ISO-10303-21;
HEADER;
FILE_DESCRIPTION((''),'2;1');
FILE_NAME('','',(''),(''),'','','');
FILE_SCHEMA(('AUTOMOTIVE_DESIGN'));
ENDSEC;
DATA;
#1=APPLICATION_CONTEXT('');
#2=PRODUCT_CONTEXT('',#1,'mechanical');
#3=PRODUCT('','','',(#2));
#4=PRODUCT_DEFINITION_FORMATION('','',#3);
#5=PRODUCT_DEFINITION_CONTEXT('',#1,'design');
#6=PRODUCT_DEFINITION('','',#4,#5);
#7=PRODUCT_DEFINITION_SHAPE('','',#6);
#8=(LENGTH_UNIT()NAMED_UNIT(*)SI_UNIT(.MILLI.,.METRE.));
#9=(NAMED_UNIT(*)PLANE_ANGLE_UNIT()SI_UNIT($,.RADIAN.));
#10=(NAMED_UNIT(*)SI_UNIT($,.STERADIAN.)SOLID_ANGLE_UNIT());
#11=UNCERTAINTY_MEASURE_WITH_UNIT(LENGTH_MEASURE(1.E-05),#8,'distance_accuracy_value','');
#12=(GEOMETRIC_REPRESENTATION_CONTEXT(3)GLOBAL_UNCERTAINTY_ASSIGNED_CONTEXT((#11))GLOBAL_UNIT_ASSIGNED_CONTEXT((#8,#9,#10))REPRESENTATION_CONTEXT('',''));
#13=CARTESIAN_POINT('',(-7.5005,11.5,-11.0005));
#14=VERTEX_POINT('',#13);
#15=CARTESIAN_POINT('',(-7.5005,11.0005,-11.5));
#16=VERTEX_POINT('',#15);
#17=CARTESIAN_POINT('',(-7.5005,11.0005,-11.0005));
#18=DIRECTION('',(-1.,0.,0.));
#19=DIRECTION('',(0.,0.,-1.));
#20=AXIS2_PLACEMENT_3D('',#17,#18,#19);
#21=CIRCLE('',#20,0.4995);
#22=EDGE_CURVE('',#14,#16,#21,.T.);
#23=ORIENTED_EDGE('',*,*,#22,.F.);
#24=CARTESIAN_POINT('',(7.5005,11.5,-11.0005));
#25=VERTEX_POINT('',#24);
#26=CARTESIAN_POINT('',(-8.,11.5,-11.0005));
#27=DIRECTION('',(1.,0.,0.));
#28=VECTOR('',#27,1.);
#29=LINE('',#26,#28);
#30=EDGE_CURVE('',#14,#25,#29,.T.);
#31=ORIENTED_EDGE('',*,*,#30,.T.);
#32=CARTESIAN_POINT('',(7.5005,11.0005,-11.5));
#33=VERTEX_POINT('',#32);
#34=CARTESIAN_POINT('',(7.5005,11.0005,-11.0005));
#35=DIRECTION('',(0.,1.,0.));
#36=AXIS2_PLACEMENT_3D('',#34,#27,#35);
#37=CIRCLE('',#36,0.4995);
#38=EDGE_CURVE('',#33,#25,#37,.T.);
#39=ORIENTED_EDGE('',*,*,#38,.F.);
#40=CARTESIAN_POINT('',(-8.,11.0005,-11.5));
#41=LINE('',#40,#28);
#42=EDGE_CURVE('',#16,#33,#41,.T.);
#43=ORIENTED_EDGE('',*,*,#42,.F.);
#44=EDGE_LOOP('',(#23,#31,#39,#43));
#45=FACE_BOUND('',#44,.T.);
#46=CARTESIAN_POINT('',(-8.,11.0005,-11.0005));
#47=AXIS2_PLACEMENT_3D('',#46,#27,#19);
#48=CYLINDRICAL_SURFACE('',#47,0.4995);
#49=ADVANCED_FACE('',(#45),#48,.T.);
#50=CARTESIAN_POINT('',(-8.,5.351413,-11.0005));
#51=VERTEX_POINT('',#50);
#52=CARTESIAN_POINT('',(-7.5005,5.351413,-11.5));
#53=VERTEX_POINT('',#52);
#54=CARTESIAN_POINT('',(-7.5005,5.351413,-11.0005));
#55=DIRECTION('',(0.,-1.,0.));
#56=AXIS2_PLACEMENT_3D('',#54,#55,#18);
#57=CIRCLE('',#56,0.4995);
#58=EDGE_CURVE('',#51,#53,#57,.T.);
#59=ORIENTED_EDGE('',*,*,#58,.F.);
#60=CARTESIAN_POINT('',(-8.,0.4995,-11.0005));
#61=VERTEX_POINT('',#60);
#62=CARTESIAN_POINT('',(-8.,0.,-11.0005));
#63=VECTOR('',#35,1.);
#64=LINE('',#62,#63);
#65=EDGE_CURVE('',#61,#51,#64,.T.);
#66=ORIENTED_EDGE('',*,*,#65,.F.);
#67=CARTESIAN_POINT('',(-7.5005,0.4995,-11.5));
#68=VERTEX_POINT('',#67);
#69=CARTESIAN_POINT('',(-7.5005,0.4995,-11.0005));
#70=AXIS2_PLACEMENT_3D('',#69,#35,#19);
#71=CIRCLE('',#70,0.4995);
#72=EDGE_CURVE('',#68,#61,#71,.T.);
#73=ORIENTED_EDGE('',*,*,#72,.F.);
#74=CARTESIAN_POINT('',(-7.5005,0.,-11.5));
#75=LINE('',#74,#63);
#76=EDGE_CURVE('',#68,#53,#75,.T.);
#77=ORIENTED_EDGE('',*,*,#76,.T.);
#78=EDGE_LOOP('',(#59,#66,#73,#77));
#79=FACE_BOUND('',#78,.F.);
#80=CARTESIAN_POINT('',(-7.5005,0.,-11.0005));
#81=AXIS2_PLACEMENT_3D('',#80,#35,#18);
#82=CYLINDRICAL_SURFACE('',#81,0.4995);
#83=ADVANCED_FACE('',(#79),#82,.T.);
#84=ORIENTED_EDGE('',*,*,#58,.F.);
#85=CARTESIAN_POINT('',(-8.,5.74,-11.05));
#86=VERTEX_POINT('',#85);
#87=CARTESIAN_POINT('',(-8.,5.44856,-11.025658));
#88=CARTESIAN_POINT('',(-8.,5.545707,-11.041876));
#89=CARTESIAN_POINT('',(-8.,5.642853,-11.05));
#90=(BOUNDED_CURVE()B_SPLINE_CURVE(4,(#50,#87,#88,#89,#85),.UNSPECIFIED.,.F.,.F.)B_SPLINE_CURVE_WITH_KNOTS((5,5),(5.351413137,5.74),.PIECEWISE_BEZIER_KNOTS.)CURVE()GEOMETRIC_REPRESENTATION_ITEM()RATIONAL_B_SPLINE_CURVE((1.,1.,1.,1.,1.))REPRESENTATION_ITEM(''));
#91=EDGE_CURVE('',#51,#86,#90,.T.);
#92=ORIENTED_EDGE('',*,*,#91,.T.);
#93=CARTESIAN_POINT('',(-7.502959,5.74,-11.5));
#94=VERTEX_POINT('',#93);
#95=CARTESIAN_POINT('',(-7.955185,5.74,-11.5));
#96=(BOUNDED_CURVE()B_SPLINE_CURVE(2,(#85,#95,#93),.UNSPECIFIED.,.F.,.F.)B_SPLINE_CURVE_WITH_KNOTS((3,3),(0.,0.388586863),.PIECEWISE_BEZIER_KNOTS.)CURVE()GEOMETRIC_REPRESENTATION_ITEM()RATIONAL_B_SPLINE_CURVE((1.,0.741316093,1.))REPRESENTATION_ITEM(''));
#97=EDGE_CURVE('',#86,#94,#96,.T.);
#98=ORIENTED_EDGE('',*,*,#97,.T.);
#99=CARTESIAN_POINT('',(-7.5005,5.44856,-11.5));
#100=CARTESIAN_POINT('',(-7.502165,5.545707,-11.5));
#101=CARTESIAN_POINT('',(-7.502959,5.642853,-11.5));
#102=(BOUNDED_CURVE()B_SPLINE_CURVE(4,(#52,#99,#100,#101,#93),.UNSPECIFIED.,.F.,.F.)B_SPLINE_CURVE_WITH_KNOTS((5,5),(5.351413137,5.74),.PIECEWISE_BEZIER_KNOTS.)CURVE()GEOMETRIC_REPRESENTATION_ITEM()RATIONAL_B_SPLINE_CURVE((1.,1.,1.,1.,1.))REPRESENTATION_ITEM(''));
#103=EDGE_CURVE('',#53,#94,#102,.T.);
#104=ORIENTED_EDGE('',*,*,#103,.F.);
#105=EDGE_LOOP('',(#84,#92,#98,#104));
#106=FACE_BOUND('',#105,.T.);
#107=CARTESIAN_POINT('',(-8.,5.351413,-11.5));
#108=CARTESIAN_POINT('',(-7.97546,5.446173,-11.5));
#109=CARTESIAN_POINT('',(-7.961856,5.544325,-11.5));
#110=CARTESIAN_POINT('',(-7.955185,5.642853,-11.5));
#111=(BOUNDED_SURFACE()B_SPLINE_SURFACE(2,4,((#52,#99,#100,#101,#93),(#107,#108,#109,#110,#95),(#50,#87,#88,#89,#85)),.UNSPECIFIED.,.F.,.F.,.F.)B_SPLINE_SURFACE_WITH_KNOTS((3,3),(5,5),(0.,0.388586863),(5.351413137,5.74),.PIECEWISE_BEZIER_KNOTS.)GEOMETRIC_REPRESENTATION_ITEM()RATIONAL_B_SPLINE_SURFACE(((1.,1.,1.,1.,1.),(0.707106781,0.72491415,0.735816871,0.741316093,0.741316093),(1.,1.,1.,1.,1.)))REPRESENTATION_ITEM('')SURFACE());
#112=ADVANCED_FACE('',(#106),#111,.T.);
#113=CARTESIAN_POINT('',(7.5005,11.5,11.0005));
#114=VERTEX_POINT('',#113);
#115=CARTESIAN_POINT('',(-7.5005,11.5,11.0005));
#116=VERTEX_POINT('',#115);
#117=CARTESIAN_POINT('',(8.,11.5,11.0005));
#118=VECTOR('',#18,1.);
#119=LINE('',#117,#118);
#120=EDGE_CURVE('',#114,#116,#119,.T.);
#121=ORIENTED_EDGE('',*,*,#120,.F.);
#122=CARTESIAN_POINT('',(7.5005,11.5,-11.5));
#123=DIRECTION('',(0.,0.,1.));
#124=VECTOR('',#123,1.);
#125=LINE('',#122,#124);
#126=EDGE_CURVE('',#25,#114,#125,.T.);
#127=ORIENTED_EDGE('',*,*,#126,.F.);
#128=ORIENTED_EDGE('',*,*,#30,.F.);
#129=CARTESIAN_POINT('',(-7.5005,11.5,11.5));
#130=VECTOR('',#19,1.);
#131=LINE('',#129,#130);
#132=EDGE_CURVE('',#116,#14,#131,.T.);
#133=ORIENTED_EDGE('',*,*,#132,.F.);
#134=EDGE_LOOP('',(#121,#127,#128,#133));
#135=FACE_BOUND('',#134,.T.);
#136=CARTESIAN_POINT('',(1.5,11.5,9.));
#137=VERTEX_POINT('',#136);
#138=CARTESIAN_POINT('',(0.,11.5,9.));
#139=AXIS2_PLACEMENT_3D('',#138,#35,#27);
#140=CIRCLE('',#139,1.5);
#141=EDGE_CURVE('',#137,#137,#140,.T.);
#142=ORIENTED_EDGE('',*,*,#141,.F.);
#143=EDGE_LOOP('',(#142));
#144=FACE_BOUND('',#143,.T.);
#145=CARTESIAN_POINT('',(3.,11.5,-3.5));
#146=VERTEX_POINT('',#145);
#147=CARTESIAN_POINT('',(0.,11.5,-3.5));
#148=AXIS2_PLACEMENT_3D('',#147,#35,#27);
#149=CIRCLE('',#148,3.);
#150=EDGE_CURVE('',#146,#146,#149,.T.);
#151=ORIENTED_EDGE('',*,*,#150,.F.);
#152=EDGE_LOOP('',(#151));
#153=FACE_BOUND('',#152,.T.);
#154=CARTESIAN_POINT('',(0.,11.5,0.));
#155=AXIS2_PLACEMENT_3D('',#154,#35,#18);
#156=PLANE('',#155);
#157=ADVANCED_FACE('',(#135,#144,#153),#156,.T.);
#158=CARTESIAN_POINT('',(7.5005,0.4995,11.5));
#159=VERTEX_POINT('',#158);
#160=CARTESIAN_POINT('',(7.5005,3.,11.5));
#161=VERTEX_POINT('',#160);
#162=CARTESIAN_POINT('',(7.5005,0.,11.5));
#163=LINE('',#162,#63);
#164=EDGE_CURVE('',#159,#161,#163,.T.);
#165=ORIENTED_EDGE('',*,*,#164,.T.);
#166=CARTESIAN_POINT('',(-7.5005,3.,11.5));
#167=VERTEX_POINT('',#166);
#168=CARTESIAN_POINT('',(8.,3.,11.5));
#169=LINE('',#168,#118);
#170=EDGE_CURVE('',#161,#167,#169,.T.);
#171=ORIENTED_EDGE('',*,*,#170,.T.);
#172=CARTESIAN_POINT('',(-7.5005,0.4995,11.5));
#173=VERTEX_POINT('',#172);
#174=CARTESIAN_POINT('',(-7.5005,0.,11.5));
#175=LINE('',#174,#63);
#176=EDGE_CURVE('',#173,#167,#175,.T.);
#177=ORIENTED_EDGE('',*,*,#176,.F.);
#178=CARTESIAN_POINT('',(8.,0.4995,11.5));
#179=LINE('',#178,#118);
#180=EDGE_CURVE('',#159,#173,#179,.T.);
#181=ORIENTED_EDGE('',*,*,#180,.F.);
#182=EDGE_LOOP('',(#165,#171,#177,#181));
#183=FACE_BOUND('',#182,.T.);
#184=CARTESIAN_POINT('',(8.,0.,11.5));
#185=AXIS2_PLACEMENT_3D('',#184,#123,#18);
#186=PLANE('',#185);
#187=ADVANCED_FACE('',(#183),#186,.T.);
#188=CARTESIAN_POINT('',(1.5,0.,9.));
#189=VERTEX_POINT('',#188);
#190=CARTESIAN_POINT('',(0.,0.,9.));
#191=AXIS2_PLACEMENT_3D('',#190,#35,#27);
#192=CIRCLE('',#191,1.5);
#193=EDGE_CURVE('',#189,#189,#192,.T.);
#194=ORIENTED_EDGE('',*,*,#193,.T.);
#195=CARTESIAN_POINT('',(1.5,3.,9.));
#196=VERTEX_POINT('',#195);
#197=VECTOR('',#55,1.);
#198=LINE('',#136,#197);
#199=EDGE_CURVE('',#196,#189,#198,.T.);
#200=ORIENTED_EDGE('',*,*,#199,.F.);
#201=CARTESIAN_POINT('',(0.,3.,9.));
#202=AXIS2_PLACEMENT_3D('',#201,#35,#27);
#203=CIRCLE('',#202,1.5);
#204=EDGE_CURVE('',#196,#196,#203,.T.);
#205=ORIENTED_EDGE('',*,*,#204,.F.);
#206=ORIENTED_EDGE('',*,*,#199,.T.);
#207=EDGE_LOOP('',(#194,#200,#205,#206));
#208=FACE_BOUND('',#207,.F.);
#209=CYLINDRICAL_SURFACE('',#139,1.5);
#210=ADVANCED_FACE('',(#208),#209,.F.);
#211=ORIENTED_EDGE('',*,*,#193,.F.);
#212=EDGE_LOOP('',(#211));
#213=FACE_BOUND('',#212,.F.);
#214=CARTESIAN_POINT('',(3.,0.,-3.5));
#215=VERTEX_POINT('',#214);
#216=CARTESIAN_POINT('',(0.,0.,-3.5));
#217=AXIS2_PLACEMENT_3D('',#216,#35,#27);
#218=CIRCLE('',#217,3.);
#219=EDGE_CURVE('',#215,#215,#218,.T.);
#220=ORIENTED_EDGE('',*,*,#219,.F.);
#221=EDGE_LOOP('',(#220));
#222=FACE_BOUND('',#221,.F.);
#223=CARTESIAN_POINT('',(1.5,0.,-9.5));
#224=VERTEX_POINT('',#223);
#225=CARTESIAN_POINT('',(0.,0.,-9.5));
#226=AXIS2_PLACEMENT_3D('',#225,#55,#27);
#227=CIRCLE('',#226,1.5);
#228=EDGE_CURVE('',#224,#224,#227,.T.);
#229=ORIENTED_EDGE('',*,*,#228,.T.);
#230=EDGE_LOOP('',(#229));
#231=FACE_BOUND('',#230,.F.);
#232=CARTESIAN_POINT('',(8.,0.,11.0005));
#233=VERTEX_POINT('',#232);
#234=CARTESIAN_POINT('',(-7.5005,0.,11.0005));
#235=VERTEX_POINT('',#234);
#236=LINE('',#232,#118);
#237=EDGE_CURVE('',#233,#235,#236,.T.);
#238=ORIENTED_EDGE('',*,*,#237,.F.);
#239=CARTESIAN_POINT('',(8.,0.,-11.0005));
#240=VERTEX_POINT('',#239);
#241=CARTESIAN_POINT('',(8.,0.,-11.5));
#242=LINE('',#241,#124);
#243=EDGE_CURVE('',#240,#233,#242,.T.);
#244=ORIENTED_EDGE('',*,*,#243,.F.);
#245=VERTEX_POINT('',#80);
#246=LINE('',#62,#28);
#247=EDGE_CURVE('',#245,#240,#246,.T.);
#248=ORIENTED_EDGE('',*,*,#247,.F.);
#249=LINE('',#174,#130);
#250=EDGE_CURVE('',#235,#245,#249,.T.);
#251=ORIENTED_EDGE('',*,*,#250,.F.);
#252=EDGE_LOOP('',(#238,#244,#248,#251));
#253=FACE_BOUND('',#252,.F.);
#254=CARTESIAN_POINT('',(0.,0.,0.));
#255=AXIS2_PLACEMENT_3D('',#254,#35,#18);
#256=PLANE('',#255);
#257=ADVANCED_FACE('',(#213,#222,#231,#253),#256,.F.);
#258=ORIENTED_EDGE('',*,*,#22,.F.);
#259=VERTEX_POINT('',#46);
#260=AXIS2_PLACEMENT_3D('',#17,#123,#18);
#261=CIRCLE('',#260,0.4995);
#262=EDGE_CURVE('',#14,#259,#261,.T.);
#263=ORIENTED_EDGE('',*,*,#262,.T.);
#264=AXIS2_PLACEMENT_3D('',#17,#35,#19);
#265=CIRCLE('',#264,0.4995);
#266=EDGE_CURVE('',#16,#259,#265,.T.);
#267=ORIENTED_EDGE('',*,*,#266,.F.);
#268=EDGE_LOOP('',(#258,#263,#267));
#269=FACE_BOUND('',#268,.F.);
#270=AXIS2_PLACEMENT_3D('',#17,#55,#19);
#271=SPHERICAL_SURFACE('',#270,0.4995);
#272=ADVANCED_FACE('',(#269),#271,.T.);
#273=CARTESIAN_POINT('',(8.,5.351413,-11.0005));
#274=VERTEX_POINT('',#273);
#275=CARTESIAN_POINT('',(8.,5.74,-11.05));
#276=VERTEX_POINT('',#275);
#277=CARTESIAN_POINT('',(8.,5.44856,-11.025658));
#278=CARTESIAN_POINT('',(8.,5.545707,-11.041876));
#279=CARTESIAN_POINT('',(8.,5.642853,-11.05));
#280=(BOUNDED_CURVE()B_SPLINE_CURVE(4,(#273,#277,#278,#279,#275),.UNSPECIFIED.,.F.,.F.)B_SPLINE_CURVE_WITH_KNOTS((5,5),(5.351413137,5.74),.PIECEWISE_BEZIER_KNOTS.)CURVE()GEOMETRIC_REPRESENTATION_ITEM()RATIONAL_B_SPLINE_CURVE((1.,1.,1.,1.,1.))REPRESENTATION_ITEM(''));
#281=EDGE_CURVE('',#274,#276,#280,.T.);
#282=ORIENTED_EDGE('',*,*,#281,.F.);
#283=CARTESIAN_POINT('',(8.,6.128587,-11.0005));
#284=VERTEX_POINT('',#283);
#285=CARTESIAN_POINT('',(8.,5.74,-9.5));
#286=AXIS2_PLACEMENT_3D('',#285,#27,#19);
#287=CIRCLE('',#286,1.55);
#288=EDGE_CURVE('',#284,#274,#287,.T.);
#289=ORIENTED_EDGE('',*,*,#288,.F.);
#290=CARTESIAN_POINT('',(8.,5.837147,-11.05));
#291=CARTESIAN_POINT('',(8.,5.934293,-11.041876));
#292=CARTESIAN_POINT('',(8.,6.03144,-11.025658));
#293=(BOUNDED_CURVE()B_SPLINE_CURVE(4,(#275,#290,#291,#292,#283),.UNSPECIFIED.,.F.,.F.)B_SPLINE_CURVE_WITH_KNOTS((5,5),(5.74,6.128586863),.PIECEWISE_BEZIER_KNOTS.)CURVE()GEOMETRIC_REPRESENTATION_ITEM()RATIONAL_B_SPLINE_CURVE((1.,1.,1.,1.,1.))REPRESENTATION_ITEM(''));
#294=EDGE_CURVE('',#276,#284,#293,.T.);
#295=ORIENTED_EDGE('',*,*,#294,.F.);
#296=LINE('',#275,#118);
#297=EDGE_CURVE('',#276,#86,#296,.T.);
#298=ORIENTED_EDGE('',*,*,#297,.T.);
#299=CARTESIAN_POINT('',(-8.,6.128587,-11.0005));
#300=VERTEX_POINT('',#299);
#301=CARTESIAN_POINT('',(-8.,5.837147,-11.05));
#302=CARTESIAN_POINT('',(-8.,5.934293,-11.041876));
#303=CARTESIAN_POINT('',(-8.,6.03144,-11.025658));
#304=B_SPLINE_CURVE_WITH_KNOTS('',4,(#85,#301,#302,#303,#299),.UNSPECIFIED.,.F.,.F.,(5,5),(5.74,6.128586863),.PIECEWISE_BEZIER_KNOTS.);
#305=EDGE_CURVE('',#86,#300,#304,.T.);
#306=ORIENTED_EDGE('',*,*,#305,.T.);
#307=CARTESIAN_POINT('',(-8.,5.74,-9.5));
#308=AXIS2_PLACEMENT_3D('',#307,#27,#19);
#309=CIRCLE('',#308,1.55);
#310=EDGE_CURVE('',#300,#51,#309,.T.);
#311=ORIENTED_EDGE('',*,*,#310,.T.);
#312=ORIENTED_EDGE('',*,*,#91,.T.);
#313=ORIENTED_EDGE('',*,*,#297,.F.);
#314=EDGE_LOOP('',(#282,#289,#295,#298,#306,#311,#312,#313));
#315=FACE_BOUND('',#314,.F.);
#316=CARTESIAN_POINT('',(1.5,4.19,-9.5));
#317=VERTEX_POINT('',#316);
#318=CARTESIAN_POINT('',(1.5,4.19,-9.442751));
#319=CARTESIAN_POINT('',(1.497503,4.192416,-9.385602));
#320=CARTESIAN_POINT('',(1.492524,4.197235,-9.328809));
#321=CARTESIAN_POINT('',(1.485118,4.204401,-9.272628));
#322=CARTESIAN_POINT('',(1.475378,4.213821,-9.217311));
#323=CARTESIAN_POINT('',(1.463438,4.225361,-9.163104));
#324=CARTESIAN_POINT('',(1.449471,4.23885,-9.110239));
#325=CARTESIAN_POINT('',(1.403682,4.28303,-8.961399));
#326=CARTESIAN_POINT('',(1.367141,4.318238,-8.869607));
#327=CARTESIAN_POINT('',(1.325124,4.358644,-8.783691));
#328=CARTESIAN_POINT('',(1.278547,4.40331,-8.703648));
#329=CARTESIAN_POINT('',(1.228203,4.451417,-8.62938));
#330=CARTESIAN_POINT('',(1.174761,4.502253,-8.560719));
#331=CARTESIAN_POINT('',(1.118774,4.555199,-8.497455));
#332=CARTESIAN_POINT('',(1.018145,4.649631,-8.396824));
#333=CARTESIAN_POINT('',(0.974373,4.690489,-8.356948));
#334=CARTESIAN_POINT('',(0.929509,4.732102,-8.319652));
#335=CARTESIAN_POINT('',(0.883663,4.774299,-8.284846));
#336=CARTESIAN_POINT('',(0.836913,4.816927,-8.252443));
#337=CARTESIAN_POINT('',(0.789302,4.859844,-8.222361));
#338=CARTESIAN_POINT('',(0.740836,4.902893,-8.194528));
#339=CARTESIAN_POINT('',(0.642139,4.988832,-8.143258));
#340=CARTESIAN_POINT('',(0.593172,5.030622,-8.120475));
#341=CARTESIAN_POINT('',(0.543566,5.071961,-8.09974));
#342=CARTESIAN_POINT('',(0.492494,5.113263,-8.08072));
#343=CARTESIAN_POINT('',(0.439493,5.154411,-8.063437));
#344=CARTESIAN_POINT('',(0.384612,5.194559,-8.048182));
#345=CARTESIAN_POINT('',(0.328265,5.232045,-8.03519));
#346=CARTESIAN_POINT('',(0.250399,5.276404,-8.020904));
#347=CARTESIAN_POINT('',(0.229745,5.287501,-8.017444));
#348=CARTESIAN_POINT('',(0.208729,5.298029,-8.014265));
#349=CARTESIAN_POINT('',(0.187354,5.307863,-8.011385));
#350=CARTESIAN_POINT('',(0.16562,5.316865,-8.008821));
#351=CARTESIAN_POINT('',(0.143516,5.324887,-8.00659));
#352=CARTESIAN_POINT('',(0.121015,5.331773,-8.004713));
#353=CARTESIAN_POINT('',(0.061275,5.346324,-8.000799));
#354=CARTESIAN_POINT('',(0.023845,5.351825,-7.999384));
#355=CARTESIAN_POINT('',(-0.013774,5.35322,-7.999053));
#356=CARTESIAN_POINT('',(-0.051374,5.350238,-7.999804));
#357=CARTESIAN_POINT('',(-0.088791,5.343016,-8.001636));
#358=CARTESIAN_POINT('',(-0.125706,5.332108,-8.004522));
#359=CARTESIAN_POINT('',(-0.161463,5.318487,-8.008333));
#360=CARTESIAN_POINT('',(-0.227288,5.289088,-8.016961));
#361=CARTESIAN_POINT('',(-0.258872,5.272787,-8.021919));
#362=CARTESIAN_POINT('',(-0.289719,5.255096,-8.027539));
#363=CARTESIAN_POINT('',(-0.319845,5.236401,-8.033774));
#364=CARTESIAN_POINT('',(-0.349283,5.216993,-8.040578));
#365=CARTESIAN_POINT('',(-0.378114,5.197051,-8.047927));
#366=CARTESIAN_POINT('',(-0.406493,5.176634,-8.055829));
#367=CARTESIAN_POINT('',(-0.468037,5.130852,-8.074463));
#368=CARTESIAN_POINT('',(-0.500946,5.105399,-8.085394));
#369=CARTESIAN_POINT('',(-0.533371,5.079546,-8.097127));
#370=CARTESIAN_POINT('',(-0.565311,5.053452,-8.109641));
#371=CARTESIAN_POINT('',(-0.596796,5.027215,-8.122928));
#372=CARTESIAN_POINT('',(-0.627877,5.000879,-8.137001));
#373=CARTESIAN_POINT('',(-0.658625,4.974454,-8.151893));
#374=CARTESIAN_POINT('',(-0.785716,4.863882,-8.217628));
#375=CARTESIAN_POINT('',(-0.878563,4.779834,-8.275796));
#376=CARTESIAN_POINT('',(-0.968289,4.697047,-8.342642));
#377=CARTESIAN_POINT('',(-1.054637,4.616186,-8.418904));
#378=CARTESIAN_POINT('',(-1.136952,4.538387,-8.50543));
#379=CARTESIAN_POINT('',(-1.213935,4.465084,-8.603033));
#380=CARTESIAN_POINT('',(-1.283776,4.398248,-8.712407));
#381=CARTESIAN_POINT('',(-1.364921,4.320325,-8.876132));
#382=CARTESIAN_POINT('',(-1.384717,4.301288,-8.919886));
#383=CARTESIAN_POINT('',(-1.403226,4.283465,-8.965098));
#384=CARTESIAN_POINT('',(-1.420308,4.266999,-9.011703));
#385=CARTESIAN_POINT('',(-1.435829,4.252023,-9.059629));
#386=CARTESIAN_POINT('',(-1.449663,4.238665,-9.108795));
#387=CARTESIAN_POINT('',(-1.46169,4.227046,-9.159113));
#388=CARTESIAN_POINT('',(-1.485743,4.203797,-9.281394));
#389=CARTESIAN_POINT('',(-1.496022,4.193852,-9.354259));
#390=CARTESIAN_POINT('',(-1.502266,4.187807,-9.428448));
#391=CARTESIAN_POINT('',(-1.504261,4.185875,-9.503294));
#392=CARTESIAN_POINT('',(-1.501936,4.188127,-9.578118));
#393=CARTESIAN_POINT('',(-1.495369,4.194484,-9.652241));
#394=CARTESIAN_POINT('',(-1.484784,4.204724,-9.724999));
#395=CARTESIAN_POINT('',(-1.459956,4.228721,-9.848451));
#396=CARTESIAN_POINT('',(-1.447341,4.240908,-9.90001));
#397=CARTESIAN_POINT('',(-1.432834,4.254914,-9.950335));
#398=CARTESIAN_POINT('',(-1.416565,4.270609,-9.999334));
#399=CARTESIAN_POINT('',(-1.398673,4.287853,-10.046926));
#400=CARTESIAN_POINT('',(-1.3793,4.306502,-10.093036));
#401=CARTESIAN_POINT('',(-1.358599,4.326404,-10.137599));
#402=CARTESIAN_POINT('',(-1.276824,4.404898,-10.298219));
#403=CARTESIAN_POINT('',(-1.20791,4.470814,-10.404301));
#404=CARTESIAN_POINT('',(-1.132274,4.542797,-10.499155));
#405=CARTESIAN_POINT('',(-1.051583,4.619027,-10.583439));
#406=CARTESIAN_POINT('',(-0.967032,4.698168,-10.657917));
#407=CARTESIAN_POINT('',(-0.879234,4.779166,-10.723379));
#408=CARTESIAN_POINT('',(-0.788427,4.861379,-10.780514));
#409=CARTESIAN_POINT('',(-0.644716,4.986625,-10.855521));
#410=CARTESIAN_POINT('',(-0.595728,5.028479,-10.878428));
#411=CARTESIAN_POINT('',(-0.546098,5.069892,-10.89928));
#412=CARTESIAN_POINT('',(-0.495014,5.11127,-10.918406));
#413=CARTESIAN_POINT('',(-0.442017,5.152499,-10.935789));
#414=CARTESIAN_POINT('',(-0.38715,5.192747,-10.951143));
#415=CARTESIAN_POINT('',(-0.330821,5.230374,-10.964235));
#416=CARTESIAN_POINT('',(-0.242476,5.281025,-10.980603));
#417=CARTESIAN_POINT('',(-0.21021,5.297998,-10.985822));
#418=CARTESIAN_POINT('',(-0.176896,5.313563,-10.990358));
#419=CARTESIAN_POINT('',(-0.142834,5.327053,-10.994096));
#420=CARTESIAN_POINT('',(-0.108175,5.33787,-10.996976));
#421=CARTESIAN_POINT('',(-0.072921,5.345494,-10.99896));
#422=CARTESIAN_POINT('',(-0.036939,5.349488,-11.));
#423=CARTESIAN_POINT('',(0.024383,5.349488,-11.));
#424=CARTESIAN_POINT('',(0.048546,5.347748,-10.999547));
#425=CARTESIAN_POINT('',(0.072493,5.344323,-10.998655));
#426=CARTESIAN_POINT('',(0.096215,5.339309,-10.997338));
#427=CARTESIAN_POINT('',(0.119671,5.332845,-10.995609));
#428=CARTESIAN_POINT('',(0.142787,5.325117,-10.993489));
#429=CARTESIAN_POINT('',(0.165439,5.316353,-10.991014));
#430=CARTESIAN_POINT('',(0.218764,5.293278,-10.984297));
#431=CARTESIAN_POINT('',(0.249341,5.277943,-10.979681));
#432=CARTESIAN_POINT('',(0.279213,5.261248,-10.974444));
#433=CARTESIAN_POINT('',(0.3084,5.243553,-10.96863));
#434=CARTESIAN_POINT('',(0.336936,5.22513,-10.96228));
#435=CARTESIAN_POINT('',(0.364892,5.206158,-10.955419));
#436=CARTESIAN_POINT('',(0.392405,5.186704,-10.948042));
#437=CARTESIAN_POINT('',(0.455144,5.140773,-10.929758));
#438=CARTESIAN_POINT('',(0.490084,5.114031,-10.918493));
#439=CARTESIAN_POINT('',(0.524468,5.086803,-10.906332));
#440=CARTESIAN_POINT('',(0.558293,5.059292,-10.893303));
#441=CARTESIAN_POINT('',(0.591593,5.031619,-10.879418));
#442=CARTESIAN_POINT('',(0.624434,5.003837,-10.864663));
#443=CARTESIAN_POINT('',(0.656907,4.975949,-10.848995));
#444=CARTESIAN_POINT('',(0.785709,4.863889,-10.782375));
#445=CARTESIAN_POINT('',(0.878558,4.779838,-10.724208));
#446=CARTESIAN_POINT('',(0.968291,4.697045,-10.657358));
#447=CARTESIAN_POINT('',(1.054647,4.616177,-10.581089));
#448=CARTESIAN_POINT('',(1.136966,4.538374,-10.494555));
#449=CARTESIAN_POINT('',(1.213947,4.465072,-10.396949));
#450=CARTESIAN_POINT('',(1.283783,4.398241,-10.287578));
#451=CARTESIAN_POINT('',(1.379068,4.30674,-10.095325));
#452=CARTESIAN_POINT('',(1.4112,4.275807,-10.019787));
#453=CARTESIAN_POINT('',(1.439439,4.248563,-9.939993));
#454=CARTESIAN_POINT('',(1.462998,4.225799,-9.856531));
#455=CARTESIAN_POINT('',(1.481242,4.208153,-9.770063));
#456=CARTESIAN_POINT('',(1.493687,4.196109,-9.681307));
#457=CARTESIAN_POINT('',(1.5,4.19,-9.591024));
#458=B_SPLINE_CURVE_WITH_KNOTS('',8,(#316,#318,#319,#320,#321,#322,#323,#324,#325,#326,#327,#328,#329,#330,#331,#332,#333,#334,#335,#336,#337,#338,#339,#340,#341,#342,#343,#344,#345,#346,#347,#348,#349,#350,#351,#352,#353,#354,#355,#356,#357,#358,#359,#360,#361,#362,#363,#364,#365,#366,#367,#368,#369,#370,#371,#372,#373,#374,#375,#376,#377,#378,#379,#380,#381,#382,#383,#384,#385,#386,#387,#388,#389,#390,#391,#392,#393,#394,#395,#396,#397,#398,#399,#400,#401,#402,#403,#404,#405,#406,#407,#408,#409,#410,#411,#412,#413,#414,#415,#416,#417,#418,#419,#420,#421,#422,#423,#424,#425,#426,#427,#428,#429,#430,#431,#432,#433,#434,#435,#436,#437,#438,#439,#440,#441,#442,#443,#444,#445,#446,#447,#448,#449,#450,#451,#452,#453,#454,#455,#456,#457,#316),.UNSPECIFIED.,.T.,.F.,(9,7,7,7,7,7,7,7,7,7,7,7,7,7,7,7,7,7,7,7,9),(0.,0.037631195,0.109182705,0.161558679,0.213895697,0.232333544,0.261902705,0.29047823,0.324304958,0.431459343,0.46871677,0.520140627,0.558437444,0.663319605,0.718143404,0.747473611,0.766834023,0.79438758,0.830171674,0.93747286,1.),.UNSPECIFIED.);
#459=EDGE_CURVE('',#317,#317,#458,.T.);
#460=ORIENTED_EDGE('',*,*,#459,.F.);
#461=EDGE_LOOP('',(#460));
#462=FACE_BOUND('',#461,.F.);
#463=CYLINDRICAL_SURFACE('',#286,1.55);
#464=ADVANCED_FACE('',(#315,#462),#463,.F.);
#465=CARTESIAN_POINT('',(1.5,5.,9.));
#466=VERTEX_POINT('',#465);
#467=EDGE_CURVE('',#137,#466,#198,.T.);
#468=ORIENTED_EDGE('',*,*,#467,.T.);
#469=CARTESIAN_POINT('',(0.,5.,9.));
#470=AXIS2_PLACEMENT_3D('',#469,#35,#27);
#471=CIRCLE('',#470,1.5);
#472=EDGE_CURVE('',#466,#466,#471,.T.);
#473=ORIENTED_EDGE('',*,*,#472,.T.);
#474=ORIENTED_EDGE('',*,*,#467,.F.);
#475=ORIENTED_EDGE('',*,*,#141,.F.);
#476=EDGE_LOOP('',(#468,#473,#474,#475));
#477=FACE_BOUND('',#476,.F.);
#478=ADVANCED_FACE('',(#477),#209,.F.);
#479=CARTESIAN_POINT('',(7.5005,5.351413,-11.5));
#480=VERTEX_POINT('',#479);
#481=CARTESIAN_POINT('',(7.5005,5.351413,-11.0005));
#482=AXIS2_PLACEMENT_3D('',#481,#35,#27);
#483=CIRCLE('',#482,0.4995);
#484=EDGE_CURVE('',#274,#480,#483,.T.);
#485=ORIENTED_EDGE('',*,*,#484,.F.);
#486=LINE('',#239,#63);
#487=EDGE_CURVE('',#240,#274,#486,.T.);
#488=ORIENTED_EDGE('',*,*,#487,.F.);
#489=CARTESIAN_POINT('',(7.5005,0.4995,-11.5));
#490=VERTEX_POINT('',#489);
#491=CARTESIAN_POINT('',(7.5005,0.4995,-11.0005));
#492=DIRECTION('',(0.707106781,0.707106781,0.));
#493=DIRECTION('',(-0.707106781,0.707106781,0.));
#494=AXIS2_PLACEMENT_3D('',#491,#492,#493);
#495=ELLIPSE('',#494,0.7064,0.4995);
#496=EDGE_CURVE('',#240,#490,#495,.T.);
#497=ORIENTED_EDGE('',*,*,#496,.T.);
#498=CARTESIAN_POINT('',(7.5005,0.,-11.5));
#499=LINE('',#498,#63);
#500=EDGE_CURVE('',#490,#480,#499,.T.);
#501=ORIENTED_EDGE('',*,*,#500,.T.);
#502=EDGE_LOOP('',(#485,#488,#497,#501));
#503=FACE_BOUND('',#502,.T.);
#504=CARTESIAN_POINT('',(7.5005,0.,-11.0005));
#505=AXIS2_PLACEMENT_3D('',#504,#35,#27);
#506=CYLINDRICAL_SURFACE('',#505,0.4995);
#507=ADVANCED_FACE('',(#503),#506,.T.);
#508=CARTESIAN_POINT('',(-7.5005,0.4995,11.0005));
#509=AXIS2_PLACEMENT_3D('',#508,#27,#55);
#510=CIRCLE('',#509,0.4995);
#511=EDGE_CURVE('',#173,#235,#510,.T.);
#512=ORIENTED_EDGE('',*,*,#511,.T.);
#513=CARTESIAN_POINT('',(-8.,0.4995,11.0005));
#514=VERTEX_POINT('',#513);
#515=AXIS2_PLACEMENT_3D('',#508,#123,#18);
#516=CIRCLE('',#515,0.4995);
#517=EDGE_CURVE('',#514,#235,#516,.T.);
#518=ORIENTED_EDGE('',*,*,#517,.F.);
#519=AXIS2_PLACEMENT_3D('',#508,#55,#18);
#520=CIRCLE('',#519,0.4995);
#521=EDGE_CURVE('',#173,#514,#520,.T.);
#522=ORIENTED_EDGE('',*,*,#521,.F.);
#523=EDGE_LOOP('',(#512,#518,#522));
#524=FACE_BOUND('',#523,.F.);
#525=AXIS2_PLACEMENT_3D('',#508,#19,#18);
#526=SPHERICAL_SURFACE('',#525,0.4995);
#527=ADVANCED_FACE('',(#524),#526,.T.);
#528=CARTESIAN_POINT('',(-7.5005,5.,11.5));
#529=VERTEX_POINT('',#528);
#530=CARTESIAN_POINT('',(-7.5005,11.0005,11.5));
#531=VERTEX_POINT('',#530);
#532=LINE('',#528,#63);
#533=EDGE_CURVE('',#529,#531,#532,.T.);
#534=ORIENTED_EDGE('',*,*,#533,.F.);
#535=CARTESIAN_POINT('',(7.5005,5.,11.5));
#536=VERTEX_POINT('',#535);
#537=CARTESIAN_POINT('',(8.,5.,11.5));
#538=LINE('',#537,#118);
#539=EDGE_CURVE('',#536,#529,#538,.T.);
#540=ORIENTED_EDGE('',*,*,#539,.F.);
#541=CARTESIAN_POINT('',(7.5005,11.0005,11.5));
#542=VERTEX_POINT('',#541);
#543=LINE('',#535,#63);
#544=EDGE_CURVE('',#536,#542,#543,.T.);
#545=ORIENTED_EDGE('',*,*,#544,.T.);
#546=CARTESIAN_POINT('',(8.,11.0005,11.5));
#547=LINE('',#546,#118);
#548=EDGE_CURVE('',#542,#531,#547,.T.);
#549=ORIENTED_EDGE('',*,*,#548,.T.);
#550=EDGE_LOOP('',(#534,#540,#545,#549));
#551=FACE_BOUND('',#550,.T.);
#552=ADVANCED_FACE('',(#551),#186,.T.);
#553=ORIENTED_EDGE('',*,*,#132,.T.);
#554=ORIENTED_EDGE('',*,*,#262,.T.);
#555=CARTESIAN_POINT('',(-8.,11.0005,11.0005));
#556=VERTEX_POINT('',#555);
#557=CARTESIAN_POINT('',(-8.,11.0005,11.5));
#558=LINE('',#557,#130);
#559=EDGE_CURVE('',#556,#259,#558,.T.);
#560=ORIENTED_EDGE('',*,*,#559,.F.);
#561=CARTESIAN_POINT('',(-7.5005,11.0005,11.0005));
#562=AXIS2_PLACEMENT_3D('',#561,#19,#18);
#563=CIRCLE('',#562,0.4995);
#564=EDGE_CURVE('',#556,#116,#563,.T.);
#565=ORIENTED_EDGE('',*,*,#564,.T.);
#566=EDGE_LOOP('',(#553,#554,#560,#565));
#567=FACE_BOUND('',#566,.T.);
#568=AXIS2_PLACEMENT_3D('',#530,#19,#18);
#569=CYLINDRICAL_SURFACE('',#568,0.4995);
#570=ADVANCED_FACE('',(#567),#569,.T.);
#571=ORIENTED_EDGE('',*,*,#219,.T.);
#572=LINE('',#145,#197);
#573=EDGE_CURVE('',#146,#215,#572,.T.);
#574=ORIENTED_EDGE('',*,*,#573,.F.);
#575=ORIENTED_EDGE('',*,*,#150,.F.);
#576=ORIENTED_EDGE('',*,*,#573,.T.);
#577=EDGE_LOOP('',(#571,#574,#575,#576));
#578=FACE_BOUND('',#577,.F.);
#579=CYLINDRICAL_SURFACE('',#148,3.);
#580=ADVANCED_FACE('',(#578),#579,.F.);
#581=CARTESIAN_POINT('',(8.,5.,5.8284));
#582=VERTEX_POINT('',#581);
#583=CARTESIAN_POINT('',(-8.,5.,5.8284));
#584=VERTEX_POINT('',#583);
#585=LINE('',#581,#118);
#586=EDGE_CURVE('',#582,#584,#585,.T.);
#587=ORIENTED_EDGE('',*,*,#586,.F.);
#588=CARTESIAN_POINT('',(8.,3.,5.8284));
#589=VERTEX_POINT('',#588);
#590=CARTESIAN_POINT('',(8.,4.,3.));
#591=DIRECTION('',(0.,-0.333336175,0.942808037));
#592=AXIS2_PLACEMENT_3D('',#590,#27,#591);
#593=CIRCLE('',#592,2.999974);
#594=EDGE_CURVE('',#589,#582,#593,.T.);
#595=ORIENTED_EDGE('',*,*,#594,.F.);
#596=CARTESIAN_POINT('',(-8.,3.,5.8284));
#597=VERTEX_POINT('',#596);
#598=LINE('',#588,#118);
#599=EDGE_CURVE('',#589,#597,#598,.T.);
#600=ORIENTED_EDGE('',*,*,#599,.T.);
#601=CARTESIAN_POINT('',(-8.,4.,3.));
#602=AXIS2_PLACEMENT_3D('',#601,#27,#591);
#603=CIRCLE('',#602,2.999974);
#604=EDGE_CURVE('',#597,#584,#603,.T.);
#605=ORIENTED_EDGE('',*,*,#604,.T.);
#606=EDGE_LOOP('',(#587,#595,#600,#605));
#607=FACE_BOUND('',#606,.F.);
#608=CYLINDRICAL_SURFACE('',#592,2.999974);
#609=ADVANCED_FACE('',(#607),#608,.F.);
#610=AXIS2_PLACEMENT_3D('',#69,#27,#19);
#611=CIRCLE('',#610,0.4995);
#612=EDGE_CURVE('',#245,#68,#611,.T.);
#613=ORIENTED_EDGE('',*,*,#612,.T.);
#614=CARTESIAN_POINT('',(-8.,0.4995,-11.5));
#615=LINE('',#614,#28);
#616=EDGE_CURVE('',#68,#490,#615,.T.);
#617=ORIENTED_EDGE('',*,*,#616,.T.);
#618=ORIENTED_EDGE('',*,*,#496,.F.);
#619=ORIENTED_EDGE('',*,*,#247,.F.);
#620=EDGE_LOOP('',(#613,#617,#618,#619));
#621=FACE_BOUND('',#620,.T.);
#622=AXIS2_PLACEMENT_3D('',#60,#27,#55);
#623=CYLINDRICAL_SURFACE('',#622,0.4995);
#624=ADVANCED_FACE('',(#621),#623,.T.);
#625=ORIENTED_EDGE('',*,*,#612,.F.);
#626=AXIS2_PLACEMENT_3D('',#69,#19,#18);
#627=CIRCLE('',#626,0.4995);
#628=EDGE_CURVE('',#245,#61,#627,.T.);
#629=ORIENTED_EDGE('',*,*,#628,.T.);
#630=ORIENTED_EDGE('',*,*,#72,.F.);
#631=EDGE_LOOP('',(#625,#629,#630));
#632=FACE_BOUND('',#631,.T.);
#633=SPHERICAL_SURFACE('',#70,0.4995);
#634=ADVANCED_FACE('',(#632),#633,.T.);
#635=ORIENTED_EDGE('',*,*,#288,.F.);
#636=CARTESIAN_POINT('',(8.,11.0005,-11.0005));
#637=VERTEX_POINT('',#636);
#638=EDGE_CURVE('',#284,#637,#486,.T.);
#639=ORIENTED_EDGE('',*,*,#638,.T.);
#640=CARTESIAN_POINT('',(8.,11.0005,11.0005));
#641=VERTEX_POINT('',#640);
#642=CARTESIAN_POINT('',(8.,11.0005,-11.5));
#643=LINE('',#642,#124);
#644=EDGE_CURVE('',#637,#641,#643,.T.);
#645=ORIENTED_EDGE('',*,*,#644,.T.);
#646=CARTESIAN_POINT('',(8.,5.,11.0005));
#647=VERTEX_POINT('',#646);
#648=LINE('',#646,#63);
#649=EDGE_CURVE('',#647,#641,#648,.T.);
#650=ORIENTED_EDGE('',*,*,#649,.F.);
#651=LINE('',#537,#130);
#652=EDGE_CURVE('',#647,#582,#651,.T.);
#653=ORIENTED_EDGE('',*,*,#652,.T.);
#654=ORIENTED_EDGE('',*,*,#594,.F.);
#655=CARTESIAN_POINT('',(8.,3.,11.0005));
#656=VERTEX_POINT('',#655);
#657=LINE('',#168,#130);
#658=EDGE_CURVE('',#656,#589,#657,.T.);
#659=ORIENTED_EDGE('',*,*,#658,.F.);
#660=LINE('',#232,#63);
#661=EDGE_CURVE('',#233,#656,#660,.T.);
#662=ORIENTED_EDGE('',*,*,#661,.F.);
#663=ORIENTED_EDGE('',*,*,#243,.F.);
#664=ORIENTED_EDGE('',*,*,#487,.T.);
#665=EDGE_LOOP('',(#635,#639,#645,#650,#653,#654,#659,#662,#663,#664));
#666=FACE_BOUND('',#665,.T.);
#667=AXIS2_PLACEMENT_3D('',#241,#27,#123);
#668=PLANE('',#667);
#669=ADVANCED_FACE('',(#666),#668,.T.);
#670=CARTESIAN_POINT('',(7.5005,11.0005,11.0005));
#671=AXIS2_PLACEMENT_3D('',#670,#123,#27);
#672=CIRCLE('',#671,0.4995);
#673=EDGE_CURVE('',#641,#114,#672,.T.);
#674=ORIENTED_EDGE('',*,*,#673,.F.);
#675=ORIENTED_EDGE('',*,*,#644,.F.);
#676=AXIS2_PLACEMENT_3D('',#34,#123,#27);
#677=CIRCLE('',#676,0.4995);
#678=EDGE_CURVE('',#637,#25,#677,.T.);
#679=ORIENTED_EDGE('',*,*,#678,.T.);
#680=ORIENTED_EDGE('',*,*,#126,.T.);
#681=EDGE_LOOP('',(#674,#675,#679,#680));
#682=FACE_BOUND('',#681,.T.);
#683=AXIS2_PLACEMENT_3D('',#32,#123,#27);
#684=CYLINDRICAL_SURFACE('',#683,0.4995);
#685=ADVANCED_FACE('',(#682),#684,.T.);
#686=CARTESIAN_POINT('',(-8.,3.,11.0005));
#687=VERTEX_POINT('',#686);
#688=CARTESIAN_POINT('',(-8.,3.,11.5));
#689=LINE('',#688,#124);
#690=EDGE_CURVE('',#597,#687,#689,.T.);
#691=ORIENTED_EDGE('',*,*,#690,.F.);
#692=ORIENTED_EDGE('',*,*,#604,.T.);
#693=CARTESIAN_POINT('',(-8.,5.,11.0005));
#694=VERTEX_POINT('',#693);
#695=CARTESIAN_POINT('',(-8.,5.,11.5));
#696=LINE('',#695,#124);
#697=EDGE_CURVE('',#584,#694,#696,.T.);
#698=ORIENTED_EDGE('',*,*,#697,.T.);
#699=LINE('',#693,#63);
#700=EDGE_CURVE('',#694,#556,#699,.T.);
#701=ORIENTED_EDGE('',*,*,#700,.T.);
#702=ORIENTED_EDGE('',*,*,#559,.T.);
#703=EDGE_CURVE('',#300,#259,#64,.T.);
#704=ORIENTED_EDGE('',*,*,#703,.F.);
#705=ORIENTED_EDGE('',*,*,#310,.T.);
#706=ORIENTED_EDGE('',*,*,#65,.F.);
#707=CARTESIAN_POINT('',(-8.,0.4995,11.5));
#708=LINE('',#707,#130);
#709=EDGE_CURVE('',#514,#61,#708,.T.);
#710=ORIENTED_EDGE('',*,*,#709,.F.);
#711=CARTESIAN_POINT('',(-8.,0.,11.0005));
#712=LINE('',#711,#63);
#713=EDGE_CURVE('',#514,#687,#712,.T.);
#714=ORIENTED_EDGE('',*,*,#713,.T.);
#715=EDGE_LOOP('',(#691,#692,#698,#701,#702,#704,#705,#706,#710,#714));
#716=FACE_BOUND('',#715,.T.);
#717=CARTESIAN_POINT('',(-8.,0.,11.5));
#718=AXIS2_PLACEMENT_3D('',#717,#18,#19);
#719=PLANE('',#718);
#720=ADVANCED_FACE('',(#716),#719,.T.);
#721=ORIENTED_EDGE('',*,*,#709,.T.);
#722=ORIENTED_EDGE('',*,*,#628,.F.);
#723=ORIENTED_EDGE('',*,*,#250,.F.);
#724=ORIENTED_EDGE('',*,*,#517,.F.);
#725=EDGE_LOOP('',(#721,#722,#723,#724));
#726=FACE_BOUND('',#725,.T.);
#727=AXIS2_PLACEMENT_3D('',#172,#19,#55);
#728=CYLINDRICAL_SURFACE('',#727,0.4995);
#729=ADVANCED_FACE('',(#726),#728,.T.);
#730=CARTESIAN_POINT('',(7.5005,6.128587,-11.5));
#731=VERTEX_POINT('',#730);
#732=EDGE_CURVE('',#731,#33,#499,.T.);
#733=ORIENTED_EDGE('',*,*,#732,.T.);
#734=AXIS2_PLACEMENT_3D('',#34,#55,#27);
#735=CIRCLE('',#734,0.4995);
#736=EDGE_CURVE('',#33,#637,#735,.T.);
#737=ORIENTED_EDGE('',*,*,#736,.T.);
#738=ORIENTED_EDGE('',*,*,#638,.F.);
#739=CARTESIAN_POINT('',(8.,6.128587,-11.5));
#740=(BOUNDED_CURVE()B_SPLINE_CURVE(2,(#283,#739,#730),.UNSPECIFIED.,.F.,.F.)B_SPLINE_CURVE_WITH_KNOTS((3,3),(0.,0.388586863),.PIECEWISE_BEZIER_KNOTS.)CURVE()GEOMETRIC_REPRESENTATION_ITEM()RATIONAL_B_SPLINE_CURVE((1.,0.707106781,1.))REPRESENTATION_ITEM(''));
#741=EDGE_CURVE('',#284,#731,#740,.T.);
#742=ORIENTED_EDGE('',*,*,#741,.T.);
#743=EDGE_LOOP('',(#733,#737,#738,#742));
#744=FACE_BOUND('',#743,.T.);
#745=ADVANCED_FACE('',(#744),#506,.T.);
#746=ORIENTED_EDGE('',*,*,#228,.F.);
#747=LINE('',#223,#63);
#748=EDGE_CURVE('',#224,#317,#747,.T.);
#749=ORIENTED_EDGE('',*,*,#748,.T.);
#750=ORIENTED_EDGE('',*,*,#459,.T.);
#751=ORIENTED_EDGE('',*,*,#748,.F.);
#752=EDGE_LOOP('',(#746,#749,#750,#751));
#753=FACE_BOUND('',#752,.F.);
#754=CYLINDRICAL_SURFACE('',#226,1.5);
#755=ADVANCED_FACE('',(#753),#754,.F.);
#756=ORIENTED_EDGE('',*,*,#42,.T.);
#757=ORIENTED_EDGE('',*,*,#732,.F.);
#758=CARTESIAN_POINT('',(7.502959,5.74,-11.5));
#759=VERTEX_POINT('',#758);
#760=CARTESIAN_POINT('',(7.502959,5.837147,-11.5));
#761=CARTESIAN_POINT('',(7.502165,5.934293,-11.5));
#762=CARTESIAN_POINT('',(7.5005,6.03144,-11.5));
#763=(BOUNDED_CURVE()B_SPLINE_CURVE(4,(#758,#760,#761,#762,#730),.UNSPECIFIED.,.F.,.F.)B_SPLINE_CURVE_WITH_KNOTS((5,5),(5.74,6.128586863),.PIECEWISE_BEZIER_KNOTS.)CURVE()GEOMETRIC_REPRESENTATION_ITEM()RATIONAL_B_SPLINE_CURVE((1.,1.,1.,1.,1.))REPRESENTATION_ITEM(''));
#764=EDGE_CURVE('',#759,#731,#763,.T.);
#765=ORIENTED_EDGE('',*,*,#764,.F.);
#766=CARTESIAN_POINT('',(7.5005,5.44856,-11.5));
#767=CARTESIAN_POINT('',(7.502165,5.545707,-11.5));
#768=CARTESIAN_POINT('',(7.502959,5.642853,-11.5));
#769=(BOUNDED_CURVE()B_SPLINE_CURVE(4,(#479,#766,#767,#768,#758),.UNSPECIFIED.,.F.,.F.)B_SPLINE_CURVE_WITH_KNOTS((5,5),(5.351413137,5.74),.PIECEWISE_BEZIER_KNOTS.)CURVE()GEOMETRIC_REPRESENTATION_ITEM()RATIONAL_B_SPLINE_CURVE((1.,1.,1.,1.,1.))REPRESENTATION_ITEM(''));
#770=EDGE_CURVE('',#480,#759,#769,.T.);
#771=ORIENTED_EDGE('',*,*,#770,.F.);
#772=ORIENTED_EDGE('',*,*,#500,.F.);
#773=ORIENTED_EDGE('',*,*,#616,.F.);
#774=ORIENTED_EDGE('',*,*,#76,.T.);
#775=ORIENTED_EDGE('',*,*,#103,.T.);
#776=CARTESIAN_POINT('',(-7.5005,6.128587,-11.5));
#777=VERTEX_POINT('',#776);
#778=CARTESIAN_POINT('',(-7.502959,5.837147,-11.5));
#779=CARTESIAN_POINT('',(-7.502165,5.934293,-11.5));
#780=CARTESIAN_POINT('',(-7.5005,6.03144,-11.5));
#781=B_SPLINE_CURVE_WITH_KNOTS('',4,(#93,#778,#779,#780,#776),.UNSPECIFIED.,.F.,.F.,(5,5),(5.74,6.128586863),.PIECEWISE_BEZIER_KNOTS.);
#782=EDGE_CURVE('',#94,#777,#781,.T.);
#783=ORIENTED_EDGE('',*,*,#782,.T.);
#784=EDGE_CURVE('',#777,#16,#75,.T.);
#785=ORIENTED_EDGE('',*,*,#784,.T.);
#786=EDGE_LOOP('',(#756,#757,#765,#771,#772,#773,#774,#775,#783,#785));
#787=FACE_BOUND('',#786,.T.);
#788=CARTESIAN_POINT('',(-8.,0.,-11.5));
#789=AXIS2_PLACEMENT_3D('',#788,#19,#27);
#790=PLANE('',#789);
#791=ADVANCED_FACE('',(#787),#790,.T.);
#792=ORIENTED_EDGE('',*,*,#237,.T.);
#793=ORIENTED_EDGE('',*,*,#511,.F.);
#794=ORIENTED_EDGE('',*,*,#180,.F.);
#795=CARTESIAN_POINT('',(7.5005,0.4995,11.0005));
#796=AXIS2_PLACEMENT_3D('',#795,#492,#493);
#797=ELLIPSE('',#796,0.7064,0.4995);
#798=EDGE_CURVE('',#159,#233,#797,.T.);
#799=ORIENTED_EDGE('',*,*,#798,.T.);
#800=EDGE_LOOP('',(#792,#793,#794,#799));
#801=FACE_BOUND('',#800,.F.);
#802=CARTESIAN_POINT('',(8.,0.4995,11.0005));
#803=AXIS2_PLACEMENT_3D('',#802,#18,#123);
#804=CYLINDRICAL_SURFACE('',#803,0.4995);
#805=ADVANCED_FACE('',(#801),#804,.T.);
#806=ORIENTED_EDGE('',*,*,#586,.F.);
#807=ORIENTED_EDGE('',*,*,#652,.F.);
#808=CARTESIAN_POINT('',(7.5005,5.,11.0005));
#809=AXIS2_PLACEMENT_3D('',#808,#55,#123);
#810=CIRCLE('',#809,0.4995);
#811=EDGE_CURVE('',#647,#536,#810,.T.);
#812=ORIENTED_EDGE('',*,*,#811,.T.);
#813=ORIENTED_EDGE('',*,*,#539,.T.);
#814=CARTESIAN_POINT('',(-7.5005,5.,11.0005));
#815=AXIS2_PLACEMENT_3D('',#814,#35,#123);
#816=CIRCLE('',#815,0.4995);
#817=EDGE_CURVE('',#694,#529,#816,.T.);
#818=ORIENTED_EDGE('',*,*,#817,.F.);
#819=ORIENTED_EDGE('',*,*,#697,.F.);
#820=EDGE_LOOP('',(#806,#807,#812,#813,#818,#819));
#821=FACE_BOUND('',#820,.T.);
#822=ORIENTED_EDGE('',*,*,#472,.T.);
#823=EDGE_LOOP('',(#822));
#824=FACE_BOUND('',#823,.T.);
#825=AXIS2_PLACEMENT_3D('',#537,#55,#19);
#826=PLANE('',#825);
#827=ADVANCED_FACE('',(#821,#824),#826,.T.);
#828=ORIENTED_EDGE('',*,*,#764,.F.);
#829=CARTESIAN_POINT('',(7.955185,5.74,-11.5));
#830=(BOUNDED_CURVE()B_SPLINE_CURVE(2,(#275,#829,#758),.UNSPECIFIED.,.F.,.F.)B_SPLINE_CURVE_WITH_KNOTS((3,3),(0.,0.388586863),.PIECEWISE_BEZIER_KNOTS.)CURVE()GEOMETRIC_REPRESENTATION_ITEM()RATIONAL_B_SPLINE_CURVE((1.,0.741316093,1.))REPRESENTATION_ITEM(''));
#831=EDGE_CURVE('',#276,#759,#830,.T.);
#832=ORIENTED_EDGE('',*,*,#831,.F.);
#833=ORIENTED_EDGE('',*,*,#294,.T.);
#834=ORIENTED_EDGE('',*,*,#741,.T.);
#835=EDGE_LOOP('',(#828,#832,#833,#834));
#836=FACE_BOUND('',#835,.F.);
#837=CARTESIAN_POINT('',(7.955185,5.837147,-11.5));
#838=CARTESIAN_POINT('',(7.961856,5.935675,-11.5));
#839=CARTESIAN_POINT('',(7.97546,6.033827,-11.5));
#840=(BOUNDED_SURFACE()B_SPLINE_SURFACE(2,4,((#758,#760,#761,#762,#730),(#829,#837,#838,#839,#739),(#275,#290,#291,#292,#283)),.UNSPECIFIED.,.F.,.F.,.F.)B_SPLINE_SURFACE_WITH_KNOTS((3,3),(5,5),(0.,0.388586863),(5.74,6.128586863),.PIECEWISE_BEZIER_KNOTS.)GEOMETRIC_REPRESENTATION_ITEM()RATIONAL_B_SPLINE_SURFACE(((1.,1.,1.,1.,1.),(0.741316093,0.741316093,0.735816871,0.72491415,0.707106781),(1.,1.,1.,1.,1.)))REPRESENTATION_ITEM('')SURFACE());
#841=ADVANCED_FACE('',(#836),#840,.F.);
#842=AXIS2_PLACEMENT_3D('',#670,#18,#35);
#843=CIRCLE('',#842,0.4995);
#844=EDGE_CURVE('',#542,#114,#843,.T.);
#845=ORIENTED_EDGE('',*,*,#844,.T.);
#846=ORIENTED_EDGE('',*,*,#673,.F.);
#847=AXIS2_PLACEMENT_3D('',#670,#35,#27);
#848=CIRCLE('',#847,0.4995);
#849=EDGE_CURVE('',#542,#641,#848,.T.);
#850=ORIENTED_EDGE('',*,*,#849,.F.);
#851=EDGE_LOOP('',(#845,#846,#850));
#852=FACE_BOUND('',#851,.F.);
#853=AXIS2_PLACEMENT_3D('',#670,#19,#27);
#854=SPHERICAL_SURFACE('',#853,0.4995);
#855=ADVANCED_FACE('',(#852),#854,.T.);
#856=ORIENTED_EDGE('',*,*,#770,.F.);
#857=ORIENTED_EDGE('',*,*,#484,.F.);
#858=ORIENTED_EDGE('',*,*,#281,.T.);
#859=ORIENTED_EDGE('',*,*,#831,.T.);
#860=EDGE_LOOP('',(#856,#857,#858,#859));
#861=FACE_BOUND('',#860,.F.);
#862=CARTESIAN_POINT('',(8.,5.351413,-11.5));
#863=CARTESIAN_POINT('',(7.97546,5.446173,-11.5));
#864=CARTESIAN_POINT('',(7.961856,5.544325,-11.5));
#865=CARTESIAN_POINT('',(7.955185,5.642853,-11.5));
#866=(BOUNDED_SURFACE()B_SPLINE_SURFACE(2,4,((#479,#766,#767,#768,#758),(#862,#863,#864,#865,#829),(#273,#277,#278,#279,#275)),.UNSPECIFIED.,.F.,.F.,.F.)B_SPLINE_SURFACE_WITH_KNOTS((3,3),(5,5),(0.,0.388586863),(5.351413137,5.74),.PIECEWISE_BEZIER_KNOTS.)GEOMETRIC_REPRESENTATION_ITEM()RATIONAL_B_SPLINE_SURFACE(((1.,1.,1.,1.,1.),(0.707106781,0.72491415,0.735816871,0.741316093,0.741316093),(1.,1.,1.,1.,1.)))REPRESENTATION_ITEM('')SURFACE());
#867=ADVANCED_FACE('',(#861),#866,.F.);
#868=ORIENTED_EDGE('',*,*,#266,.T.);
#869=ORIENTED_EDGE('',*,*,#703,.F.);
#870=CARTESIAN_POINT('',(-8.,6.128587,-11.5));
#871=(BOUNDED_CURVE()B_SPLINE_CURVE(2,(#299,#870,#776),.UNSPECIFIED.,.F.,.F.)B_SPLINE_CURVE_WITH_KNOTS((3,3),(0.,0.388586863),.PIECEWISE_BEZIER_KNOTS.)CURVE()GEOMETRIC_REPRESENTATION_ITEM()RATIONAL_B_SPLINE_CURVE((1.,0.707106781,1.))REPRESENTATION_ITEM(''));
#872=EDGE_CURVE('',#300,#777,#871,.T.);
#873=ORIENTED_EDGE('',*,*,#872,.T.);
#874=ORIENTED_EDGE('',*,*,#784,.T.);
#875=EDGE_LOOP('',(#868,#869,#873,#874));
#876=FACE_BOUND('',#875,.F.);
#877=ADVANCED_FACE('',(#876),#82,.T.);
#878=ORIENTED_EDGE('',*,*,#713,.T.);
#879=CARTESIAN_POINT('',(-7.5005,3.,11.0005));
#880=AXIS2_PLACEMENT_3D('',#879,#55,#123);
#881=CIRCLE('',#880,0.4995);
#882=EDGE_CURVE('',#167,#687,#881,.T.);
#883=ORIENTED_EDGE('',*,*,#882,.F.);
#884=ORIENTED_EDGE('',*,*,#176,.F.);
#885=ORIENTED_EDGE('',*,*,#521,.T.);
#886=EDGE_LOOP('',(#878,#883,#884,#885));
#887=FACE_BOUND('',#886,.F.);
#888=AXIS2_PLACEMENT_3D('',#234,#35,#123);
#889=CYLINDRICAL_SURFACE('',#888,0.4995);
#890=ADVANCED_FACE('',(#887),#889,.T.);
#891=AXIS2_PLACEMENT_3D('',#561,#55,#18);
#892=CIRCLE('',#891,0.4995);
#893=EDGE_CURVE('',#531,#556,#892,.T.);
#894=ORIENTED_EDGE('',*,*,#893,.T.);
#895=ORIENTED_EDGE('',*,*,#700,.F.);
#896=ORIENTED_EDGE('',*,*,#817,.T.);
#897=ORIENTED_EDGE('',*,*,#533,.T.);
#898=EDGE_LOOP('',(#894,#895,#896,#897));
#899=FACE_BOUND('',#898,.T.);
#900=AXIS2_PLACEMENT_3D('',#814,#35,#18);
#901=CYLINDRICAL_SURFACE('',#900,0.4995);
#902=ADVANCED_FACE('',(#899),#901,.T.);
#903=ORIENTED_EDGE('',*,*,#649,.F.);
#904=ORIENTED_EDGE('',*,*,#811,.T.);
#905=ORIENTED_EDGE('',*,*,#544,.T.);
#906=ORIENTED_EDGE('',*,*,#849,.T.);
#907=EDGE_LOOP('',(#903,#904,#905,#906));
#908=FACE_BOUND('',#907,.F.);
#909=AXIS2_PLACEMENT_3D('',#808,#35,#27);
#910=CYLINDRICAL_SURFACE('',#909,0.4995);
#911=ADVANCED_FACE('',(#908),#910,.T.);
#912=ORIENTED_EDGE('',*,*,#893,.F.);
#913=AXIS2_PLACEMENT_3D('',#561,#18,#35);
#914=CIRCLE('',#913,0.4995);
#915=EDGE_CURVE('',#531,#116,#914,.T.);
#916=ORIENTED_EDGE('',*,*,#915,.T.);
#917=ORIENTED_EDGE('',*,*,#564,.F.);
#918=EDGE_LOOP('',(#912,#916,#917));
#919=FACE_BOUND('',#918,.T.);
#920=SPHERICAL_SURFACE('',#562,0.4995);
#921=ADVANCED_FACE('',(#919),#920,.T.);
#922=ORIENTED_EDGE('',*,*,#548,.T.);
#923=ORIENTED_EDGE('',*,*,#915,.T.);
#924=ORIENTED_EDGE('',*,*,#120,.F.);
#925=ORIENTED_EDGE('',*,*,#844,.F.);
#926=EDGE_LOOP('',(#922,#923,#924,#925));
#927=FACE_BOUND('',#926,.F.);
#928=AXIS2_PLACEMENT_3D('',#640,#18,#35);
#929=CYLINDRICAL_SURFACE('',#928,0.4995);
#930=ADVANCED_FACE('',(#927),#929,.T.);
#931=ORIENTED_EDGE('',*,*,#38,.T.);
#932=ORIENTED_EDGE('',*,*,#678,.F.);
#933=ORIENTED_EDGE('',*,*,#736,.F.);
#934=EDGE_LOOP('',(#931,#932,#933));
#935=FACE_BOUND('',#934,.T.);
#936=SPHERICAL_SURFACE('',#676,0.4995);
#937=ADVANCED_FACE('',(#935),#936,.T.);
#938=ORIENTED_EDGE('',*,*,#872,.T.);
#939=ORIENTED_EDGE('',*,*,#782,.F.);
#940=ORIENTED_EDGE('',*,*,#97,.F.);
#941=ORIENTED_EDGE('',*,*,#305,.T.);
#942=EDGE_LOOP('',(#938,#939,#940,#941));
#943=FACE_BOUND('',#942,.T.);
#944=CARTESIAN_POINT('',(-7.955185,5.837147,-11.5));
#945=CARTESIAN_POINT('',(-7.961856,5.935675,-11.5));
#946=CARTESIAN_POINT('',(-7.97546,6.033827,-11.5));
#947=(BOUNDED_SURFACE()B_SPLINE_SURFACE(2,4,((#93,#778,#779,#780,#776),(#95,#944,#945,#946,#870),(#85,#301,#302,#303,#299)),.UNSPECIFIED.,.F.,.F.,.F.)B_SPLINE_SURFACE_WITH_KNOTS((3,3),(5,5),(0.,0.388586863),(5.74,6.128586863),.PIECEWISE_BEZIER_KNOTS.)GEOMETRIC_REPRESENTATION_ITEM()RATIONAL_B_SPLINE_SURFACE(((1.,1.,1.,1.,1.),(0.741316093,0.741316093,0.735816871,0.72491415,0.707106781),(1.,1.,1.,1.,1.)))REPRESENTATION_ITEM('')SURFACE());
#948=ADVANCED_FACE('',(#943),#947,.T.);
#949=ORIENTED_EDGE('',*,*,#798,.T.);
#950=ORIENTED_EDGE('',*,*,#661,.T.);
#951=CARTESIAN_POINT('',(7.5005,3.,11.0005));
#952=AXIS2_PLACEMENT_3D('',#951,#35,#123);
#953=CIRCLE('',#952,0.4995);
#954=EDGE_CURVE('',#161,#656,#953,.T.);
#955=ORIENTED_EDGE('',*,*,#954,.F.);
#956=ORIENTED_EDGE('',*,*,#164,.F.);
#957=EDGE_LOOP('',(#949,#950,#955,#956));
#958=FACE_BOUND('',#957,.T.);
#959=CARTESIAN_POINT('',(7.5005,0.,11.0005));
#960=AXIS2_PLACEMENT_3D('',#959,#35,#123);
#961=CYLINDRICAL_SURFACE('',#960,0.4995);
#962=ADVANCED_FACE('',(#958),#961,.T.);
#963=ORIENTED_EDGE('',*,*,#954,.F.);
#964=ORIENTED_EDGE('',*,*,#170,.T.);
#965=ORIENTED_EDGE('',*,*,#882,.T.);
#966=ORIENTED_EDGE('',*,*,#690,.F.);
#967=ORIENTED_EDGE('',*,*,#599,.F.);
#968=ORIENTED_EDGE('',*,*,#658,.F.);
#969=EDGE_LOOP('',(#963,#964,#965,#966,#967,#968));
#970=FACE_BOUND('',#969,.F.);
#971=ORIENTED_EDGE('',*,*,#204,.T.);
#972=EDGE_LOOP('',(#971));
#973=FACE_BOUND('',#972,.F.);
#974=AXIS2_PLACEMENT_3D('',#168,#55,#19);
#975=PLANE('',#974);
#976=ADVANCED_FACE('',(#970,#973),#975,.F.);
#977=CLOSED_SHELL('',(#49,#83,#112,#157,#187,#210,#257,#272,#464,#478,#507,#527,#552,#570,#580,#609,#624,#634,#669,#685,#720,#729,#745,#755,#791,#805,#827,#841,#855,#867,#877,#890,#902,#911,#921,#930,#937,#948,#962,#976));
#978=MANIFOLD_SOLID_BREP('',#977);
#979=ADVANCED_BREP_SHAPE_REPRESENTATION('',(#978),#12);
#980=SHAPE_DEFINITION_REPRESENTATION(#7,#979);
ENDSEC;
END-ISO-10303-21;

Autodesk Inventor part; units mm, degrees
ref_plane "YZ Plane" through (0, 0, 0) normal (1, 0, 0) x (0, 1, 0)
ref_plane "XZ Plane" through (0, 0, 0) normal (0, 1, 0) x (-1, 0, 0)
ref_plane "XY Plane" through (0, 0, 0) normal (0, 0, 1) x (1, 0, 0)
sketch "Sketch1" plane through (0, 0, 0) normal (0, 1, 0) x (-1, 0, 0)
  line L0 (-8, 11.5) -> (8, 11.5)
  line L1 (8, 11.5) -> (8, -11.5)
  line L2 (8, -11.5) -> (-8, -11.5)
  line L3 (-8, -11.5) -> (-8, 11.5)
  line L4 (-8, 11.5) -> (8, -11.5) construction
  line L5 (8, 11.5) -> (-8, -11.5) construction
  point P0 (0, 0)
  dimension "d0" = 16
  dimension "d1" = 23
extrude "Extrusion1" add sketch "Sketch1" along normal blind 11.5
sketch "Sketch2" plane through (8, 0, 11.5) normal (1, 0, 0) x (0, 0, -1)
  arc A0 (5.6716, 3) -> (5.6716, 5) centre (8.5, 4) ccw
  line L0 (23, 0) -> (23, 11.5)
  line L1 (23, 0) -> (0, 0)
  line L2 (0, 5) -> (5.6716, 5)
  line L3 (0, 5) -> (0, 3)
  line L4 (0, 0) -> (0, 11.5)
  line L5 (0, 3) -> (5.6716, 3)
  line L6 (8.5, 4) -> (0, 4) construction
  circle A1 centre (21, 5.74) radius 1.55
  point P0 (11.5, 0)
  dimension "d4" = 14.5
  dimension "d5" = 6
  dimension "d6" = 4
  dimension "d7" = 8.5
  dimension "d8" = 2
  dimension "d9" = 3.1
  dimension "d10" = 2
  dimension "d11" = 5.74
extrude "Extrusion2" cut sketch "Sketch2" against normal through all
sketch "Sketch3" plane through (0, 11.5, 0) normal (0, 1, 0) x (1, 0, 0)
  line L0 (8, -11.5) -> (-8, -11.5) construction
  line L1 (0, -11.5) -> (0, 11.545) construction
  circle A0 centre (0, 3.5) radius 3
  circle A1 centre (0, -9) radius 1.5
  line L2 (8, 11.5) -> (-8, 11.5)
  point P0 (0, 0)
  dimension "d14" = 8
  dimension "d15" = 6
  dimension "d17" = 20.5
  dimension "d18" = 3
extrude "Extrusion3" cut sketch "Sketch3" against normal through all
sketch "Sketch4" plane through (0, 0, 0) normal (0, -1, 0) x (1, 0, 0)
  line L0 (0, 0) -> (0, -11.4648) construction
  circle A0 centre (0, -9.5) radius 1.5
  line L1 (-8, -11.5) -> (8, -11.5)
  dimension "d21" = 3
  dimension "d22" = 2
extrude "Extrusion4" cut sketch "Sketch4" against normal up to surface
fillet "Fillet1" radius 0.5 13 edges at (8, 11.5, 0) (8, 5.75, -11.5) (-8, 5.75, -11.5) (0, 11.5, -11.5) (0, 0, -11.5) (-8, 0, 0) (-8, 11.5, 0) (8, 8.25, 11.5) (8, 1.5, 11.5) (-8, 1.5, 11.5) (-8, 8.25, 11.5) (0, 11.5, 11.5) (0, 0, 11.5)
thread "Thread1"
thread "Thread2"
thread "Thread3"
thread "Thread4"
properties part number "E3Dv6_Heater_Block"
